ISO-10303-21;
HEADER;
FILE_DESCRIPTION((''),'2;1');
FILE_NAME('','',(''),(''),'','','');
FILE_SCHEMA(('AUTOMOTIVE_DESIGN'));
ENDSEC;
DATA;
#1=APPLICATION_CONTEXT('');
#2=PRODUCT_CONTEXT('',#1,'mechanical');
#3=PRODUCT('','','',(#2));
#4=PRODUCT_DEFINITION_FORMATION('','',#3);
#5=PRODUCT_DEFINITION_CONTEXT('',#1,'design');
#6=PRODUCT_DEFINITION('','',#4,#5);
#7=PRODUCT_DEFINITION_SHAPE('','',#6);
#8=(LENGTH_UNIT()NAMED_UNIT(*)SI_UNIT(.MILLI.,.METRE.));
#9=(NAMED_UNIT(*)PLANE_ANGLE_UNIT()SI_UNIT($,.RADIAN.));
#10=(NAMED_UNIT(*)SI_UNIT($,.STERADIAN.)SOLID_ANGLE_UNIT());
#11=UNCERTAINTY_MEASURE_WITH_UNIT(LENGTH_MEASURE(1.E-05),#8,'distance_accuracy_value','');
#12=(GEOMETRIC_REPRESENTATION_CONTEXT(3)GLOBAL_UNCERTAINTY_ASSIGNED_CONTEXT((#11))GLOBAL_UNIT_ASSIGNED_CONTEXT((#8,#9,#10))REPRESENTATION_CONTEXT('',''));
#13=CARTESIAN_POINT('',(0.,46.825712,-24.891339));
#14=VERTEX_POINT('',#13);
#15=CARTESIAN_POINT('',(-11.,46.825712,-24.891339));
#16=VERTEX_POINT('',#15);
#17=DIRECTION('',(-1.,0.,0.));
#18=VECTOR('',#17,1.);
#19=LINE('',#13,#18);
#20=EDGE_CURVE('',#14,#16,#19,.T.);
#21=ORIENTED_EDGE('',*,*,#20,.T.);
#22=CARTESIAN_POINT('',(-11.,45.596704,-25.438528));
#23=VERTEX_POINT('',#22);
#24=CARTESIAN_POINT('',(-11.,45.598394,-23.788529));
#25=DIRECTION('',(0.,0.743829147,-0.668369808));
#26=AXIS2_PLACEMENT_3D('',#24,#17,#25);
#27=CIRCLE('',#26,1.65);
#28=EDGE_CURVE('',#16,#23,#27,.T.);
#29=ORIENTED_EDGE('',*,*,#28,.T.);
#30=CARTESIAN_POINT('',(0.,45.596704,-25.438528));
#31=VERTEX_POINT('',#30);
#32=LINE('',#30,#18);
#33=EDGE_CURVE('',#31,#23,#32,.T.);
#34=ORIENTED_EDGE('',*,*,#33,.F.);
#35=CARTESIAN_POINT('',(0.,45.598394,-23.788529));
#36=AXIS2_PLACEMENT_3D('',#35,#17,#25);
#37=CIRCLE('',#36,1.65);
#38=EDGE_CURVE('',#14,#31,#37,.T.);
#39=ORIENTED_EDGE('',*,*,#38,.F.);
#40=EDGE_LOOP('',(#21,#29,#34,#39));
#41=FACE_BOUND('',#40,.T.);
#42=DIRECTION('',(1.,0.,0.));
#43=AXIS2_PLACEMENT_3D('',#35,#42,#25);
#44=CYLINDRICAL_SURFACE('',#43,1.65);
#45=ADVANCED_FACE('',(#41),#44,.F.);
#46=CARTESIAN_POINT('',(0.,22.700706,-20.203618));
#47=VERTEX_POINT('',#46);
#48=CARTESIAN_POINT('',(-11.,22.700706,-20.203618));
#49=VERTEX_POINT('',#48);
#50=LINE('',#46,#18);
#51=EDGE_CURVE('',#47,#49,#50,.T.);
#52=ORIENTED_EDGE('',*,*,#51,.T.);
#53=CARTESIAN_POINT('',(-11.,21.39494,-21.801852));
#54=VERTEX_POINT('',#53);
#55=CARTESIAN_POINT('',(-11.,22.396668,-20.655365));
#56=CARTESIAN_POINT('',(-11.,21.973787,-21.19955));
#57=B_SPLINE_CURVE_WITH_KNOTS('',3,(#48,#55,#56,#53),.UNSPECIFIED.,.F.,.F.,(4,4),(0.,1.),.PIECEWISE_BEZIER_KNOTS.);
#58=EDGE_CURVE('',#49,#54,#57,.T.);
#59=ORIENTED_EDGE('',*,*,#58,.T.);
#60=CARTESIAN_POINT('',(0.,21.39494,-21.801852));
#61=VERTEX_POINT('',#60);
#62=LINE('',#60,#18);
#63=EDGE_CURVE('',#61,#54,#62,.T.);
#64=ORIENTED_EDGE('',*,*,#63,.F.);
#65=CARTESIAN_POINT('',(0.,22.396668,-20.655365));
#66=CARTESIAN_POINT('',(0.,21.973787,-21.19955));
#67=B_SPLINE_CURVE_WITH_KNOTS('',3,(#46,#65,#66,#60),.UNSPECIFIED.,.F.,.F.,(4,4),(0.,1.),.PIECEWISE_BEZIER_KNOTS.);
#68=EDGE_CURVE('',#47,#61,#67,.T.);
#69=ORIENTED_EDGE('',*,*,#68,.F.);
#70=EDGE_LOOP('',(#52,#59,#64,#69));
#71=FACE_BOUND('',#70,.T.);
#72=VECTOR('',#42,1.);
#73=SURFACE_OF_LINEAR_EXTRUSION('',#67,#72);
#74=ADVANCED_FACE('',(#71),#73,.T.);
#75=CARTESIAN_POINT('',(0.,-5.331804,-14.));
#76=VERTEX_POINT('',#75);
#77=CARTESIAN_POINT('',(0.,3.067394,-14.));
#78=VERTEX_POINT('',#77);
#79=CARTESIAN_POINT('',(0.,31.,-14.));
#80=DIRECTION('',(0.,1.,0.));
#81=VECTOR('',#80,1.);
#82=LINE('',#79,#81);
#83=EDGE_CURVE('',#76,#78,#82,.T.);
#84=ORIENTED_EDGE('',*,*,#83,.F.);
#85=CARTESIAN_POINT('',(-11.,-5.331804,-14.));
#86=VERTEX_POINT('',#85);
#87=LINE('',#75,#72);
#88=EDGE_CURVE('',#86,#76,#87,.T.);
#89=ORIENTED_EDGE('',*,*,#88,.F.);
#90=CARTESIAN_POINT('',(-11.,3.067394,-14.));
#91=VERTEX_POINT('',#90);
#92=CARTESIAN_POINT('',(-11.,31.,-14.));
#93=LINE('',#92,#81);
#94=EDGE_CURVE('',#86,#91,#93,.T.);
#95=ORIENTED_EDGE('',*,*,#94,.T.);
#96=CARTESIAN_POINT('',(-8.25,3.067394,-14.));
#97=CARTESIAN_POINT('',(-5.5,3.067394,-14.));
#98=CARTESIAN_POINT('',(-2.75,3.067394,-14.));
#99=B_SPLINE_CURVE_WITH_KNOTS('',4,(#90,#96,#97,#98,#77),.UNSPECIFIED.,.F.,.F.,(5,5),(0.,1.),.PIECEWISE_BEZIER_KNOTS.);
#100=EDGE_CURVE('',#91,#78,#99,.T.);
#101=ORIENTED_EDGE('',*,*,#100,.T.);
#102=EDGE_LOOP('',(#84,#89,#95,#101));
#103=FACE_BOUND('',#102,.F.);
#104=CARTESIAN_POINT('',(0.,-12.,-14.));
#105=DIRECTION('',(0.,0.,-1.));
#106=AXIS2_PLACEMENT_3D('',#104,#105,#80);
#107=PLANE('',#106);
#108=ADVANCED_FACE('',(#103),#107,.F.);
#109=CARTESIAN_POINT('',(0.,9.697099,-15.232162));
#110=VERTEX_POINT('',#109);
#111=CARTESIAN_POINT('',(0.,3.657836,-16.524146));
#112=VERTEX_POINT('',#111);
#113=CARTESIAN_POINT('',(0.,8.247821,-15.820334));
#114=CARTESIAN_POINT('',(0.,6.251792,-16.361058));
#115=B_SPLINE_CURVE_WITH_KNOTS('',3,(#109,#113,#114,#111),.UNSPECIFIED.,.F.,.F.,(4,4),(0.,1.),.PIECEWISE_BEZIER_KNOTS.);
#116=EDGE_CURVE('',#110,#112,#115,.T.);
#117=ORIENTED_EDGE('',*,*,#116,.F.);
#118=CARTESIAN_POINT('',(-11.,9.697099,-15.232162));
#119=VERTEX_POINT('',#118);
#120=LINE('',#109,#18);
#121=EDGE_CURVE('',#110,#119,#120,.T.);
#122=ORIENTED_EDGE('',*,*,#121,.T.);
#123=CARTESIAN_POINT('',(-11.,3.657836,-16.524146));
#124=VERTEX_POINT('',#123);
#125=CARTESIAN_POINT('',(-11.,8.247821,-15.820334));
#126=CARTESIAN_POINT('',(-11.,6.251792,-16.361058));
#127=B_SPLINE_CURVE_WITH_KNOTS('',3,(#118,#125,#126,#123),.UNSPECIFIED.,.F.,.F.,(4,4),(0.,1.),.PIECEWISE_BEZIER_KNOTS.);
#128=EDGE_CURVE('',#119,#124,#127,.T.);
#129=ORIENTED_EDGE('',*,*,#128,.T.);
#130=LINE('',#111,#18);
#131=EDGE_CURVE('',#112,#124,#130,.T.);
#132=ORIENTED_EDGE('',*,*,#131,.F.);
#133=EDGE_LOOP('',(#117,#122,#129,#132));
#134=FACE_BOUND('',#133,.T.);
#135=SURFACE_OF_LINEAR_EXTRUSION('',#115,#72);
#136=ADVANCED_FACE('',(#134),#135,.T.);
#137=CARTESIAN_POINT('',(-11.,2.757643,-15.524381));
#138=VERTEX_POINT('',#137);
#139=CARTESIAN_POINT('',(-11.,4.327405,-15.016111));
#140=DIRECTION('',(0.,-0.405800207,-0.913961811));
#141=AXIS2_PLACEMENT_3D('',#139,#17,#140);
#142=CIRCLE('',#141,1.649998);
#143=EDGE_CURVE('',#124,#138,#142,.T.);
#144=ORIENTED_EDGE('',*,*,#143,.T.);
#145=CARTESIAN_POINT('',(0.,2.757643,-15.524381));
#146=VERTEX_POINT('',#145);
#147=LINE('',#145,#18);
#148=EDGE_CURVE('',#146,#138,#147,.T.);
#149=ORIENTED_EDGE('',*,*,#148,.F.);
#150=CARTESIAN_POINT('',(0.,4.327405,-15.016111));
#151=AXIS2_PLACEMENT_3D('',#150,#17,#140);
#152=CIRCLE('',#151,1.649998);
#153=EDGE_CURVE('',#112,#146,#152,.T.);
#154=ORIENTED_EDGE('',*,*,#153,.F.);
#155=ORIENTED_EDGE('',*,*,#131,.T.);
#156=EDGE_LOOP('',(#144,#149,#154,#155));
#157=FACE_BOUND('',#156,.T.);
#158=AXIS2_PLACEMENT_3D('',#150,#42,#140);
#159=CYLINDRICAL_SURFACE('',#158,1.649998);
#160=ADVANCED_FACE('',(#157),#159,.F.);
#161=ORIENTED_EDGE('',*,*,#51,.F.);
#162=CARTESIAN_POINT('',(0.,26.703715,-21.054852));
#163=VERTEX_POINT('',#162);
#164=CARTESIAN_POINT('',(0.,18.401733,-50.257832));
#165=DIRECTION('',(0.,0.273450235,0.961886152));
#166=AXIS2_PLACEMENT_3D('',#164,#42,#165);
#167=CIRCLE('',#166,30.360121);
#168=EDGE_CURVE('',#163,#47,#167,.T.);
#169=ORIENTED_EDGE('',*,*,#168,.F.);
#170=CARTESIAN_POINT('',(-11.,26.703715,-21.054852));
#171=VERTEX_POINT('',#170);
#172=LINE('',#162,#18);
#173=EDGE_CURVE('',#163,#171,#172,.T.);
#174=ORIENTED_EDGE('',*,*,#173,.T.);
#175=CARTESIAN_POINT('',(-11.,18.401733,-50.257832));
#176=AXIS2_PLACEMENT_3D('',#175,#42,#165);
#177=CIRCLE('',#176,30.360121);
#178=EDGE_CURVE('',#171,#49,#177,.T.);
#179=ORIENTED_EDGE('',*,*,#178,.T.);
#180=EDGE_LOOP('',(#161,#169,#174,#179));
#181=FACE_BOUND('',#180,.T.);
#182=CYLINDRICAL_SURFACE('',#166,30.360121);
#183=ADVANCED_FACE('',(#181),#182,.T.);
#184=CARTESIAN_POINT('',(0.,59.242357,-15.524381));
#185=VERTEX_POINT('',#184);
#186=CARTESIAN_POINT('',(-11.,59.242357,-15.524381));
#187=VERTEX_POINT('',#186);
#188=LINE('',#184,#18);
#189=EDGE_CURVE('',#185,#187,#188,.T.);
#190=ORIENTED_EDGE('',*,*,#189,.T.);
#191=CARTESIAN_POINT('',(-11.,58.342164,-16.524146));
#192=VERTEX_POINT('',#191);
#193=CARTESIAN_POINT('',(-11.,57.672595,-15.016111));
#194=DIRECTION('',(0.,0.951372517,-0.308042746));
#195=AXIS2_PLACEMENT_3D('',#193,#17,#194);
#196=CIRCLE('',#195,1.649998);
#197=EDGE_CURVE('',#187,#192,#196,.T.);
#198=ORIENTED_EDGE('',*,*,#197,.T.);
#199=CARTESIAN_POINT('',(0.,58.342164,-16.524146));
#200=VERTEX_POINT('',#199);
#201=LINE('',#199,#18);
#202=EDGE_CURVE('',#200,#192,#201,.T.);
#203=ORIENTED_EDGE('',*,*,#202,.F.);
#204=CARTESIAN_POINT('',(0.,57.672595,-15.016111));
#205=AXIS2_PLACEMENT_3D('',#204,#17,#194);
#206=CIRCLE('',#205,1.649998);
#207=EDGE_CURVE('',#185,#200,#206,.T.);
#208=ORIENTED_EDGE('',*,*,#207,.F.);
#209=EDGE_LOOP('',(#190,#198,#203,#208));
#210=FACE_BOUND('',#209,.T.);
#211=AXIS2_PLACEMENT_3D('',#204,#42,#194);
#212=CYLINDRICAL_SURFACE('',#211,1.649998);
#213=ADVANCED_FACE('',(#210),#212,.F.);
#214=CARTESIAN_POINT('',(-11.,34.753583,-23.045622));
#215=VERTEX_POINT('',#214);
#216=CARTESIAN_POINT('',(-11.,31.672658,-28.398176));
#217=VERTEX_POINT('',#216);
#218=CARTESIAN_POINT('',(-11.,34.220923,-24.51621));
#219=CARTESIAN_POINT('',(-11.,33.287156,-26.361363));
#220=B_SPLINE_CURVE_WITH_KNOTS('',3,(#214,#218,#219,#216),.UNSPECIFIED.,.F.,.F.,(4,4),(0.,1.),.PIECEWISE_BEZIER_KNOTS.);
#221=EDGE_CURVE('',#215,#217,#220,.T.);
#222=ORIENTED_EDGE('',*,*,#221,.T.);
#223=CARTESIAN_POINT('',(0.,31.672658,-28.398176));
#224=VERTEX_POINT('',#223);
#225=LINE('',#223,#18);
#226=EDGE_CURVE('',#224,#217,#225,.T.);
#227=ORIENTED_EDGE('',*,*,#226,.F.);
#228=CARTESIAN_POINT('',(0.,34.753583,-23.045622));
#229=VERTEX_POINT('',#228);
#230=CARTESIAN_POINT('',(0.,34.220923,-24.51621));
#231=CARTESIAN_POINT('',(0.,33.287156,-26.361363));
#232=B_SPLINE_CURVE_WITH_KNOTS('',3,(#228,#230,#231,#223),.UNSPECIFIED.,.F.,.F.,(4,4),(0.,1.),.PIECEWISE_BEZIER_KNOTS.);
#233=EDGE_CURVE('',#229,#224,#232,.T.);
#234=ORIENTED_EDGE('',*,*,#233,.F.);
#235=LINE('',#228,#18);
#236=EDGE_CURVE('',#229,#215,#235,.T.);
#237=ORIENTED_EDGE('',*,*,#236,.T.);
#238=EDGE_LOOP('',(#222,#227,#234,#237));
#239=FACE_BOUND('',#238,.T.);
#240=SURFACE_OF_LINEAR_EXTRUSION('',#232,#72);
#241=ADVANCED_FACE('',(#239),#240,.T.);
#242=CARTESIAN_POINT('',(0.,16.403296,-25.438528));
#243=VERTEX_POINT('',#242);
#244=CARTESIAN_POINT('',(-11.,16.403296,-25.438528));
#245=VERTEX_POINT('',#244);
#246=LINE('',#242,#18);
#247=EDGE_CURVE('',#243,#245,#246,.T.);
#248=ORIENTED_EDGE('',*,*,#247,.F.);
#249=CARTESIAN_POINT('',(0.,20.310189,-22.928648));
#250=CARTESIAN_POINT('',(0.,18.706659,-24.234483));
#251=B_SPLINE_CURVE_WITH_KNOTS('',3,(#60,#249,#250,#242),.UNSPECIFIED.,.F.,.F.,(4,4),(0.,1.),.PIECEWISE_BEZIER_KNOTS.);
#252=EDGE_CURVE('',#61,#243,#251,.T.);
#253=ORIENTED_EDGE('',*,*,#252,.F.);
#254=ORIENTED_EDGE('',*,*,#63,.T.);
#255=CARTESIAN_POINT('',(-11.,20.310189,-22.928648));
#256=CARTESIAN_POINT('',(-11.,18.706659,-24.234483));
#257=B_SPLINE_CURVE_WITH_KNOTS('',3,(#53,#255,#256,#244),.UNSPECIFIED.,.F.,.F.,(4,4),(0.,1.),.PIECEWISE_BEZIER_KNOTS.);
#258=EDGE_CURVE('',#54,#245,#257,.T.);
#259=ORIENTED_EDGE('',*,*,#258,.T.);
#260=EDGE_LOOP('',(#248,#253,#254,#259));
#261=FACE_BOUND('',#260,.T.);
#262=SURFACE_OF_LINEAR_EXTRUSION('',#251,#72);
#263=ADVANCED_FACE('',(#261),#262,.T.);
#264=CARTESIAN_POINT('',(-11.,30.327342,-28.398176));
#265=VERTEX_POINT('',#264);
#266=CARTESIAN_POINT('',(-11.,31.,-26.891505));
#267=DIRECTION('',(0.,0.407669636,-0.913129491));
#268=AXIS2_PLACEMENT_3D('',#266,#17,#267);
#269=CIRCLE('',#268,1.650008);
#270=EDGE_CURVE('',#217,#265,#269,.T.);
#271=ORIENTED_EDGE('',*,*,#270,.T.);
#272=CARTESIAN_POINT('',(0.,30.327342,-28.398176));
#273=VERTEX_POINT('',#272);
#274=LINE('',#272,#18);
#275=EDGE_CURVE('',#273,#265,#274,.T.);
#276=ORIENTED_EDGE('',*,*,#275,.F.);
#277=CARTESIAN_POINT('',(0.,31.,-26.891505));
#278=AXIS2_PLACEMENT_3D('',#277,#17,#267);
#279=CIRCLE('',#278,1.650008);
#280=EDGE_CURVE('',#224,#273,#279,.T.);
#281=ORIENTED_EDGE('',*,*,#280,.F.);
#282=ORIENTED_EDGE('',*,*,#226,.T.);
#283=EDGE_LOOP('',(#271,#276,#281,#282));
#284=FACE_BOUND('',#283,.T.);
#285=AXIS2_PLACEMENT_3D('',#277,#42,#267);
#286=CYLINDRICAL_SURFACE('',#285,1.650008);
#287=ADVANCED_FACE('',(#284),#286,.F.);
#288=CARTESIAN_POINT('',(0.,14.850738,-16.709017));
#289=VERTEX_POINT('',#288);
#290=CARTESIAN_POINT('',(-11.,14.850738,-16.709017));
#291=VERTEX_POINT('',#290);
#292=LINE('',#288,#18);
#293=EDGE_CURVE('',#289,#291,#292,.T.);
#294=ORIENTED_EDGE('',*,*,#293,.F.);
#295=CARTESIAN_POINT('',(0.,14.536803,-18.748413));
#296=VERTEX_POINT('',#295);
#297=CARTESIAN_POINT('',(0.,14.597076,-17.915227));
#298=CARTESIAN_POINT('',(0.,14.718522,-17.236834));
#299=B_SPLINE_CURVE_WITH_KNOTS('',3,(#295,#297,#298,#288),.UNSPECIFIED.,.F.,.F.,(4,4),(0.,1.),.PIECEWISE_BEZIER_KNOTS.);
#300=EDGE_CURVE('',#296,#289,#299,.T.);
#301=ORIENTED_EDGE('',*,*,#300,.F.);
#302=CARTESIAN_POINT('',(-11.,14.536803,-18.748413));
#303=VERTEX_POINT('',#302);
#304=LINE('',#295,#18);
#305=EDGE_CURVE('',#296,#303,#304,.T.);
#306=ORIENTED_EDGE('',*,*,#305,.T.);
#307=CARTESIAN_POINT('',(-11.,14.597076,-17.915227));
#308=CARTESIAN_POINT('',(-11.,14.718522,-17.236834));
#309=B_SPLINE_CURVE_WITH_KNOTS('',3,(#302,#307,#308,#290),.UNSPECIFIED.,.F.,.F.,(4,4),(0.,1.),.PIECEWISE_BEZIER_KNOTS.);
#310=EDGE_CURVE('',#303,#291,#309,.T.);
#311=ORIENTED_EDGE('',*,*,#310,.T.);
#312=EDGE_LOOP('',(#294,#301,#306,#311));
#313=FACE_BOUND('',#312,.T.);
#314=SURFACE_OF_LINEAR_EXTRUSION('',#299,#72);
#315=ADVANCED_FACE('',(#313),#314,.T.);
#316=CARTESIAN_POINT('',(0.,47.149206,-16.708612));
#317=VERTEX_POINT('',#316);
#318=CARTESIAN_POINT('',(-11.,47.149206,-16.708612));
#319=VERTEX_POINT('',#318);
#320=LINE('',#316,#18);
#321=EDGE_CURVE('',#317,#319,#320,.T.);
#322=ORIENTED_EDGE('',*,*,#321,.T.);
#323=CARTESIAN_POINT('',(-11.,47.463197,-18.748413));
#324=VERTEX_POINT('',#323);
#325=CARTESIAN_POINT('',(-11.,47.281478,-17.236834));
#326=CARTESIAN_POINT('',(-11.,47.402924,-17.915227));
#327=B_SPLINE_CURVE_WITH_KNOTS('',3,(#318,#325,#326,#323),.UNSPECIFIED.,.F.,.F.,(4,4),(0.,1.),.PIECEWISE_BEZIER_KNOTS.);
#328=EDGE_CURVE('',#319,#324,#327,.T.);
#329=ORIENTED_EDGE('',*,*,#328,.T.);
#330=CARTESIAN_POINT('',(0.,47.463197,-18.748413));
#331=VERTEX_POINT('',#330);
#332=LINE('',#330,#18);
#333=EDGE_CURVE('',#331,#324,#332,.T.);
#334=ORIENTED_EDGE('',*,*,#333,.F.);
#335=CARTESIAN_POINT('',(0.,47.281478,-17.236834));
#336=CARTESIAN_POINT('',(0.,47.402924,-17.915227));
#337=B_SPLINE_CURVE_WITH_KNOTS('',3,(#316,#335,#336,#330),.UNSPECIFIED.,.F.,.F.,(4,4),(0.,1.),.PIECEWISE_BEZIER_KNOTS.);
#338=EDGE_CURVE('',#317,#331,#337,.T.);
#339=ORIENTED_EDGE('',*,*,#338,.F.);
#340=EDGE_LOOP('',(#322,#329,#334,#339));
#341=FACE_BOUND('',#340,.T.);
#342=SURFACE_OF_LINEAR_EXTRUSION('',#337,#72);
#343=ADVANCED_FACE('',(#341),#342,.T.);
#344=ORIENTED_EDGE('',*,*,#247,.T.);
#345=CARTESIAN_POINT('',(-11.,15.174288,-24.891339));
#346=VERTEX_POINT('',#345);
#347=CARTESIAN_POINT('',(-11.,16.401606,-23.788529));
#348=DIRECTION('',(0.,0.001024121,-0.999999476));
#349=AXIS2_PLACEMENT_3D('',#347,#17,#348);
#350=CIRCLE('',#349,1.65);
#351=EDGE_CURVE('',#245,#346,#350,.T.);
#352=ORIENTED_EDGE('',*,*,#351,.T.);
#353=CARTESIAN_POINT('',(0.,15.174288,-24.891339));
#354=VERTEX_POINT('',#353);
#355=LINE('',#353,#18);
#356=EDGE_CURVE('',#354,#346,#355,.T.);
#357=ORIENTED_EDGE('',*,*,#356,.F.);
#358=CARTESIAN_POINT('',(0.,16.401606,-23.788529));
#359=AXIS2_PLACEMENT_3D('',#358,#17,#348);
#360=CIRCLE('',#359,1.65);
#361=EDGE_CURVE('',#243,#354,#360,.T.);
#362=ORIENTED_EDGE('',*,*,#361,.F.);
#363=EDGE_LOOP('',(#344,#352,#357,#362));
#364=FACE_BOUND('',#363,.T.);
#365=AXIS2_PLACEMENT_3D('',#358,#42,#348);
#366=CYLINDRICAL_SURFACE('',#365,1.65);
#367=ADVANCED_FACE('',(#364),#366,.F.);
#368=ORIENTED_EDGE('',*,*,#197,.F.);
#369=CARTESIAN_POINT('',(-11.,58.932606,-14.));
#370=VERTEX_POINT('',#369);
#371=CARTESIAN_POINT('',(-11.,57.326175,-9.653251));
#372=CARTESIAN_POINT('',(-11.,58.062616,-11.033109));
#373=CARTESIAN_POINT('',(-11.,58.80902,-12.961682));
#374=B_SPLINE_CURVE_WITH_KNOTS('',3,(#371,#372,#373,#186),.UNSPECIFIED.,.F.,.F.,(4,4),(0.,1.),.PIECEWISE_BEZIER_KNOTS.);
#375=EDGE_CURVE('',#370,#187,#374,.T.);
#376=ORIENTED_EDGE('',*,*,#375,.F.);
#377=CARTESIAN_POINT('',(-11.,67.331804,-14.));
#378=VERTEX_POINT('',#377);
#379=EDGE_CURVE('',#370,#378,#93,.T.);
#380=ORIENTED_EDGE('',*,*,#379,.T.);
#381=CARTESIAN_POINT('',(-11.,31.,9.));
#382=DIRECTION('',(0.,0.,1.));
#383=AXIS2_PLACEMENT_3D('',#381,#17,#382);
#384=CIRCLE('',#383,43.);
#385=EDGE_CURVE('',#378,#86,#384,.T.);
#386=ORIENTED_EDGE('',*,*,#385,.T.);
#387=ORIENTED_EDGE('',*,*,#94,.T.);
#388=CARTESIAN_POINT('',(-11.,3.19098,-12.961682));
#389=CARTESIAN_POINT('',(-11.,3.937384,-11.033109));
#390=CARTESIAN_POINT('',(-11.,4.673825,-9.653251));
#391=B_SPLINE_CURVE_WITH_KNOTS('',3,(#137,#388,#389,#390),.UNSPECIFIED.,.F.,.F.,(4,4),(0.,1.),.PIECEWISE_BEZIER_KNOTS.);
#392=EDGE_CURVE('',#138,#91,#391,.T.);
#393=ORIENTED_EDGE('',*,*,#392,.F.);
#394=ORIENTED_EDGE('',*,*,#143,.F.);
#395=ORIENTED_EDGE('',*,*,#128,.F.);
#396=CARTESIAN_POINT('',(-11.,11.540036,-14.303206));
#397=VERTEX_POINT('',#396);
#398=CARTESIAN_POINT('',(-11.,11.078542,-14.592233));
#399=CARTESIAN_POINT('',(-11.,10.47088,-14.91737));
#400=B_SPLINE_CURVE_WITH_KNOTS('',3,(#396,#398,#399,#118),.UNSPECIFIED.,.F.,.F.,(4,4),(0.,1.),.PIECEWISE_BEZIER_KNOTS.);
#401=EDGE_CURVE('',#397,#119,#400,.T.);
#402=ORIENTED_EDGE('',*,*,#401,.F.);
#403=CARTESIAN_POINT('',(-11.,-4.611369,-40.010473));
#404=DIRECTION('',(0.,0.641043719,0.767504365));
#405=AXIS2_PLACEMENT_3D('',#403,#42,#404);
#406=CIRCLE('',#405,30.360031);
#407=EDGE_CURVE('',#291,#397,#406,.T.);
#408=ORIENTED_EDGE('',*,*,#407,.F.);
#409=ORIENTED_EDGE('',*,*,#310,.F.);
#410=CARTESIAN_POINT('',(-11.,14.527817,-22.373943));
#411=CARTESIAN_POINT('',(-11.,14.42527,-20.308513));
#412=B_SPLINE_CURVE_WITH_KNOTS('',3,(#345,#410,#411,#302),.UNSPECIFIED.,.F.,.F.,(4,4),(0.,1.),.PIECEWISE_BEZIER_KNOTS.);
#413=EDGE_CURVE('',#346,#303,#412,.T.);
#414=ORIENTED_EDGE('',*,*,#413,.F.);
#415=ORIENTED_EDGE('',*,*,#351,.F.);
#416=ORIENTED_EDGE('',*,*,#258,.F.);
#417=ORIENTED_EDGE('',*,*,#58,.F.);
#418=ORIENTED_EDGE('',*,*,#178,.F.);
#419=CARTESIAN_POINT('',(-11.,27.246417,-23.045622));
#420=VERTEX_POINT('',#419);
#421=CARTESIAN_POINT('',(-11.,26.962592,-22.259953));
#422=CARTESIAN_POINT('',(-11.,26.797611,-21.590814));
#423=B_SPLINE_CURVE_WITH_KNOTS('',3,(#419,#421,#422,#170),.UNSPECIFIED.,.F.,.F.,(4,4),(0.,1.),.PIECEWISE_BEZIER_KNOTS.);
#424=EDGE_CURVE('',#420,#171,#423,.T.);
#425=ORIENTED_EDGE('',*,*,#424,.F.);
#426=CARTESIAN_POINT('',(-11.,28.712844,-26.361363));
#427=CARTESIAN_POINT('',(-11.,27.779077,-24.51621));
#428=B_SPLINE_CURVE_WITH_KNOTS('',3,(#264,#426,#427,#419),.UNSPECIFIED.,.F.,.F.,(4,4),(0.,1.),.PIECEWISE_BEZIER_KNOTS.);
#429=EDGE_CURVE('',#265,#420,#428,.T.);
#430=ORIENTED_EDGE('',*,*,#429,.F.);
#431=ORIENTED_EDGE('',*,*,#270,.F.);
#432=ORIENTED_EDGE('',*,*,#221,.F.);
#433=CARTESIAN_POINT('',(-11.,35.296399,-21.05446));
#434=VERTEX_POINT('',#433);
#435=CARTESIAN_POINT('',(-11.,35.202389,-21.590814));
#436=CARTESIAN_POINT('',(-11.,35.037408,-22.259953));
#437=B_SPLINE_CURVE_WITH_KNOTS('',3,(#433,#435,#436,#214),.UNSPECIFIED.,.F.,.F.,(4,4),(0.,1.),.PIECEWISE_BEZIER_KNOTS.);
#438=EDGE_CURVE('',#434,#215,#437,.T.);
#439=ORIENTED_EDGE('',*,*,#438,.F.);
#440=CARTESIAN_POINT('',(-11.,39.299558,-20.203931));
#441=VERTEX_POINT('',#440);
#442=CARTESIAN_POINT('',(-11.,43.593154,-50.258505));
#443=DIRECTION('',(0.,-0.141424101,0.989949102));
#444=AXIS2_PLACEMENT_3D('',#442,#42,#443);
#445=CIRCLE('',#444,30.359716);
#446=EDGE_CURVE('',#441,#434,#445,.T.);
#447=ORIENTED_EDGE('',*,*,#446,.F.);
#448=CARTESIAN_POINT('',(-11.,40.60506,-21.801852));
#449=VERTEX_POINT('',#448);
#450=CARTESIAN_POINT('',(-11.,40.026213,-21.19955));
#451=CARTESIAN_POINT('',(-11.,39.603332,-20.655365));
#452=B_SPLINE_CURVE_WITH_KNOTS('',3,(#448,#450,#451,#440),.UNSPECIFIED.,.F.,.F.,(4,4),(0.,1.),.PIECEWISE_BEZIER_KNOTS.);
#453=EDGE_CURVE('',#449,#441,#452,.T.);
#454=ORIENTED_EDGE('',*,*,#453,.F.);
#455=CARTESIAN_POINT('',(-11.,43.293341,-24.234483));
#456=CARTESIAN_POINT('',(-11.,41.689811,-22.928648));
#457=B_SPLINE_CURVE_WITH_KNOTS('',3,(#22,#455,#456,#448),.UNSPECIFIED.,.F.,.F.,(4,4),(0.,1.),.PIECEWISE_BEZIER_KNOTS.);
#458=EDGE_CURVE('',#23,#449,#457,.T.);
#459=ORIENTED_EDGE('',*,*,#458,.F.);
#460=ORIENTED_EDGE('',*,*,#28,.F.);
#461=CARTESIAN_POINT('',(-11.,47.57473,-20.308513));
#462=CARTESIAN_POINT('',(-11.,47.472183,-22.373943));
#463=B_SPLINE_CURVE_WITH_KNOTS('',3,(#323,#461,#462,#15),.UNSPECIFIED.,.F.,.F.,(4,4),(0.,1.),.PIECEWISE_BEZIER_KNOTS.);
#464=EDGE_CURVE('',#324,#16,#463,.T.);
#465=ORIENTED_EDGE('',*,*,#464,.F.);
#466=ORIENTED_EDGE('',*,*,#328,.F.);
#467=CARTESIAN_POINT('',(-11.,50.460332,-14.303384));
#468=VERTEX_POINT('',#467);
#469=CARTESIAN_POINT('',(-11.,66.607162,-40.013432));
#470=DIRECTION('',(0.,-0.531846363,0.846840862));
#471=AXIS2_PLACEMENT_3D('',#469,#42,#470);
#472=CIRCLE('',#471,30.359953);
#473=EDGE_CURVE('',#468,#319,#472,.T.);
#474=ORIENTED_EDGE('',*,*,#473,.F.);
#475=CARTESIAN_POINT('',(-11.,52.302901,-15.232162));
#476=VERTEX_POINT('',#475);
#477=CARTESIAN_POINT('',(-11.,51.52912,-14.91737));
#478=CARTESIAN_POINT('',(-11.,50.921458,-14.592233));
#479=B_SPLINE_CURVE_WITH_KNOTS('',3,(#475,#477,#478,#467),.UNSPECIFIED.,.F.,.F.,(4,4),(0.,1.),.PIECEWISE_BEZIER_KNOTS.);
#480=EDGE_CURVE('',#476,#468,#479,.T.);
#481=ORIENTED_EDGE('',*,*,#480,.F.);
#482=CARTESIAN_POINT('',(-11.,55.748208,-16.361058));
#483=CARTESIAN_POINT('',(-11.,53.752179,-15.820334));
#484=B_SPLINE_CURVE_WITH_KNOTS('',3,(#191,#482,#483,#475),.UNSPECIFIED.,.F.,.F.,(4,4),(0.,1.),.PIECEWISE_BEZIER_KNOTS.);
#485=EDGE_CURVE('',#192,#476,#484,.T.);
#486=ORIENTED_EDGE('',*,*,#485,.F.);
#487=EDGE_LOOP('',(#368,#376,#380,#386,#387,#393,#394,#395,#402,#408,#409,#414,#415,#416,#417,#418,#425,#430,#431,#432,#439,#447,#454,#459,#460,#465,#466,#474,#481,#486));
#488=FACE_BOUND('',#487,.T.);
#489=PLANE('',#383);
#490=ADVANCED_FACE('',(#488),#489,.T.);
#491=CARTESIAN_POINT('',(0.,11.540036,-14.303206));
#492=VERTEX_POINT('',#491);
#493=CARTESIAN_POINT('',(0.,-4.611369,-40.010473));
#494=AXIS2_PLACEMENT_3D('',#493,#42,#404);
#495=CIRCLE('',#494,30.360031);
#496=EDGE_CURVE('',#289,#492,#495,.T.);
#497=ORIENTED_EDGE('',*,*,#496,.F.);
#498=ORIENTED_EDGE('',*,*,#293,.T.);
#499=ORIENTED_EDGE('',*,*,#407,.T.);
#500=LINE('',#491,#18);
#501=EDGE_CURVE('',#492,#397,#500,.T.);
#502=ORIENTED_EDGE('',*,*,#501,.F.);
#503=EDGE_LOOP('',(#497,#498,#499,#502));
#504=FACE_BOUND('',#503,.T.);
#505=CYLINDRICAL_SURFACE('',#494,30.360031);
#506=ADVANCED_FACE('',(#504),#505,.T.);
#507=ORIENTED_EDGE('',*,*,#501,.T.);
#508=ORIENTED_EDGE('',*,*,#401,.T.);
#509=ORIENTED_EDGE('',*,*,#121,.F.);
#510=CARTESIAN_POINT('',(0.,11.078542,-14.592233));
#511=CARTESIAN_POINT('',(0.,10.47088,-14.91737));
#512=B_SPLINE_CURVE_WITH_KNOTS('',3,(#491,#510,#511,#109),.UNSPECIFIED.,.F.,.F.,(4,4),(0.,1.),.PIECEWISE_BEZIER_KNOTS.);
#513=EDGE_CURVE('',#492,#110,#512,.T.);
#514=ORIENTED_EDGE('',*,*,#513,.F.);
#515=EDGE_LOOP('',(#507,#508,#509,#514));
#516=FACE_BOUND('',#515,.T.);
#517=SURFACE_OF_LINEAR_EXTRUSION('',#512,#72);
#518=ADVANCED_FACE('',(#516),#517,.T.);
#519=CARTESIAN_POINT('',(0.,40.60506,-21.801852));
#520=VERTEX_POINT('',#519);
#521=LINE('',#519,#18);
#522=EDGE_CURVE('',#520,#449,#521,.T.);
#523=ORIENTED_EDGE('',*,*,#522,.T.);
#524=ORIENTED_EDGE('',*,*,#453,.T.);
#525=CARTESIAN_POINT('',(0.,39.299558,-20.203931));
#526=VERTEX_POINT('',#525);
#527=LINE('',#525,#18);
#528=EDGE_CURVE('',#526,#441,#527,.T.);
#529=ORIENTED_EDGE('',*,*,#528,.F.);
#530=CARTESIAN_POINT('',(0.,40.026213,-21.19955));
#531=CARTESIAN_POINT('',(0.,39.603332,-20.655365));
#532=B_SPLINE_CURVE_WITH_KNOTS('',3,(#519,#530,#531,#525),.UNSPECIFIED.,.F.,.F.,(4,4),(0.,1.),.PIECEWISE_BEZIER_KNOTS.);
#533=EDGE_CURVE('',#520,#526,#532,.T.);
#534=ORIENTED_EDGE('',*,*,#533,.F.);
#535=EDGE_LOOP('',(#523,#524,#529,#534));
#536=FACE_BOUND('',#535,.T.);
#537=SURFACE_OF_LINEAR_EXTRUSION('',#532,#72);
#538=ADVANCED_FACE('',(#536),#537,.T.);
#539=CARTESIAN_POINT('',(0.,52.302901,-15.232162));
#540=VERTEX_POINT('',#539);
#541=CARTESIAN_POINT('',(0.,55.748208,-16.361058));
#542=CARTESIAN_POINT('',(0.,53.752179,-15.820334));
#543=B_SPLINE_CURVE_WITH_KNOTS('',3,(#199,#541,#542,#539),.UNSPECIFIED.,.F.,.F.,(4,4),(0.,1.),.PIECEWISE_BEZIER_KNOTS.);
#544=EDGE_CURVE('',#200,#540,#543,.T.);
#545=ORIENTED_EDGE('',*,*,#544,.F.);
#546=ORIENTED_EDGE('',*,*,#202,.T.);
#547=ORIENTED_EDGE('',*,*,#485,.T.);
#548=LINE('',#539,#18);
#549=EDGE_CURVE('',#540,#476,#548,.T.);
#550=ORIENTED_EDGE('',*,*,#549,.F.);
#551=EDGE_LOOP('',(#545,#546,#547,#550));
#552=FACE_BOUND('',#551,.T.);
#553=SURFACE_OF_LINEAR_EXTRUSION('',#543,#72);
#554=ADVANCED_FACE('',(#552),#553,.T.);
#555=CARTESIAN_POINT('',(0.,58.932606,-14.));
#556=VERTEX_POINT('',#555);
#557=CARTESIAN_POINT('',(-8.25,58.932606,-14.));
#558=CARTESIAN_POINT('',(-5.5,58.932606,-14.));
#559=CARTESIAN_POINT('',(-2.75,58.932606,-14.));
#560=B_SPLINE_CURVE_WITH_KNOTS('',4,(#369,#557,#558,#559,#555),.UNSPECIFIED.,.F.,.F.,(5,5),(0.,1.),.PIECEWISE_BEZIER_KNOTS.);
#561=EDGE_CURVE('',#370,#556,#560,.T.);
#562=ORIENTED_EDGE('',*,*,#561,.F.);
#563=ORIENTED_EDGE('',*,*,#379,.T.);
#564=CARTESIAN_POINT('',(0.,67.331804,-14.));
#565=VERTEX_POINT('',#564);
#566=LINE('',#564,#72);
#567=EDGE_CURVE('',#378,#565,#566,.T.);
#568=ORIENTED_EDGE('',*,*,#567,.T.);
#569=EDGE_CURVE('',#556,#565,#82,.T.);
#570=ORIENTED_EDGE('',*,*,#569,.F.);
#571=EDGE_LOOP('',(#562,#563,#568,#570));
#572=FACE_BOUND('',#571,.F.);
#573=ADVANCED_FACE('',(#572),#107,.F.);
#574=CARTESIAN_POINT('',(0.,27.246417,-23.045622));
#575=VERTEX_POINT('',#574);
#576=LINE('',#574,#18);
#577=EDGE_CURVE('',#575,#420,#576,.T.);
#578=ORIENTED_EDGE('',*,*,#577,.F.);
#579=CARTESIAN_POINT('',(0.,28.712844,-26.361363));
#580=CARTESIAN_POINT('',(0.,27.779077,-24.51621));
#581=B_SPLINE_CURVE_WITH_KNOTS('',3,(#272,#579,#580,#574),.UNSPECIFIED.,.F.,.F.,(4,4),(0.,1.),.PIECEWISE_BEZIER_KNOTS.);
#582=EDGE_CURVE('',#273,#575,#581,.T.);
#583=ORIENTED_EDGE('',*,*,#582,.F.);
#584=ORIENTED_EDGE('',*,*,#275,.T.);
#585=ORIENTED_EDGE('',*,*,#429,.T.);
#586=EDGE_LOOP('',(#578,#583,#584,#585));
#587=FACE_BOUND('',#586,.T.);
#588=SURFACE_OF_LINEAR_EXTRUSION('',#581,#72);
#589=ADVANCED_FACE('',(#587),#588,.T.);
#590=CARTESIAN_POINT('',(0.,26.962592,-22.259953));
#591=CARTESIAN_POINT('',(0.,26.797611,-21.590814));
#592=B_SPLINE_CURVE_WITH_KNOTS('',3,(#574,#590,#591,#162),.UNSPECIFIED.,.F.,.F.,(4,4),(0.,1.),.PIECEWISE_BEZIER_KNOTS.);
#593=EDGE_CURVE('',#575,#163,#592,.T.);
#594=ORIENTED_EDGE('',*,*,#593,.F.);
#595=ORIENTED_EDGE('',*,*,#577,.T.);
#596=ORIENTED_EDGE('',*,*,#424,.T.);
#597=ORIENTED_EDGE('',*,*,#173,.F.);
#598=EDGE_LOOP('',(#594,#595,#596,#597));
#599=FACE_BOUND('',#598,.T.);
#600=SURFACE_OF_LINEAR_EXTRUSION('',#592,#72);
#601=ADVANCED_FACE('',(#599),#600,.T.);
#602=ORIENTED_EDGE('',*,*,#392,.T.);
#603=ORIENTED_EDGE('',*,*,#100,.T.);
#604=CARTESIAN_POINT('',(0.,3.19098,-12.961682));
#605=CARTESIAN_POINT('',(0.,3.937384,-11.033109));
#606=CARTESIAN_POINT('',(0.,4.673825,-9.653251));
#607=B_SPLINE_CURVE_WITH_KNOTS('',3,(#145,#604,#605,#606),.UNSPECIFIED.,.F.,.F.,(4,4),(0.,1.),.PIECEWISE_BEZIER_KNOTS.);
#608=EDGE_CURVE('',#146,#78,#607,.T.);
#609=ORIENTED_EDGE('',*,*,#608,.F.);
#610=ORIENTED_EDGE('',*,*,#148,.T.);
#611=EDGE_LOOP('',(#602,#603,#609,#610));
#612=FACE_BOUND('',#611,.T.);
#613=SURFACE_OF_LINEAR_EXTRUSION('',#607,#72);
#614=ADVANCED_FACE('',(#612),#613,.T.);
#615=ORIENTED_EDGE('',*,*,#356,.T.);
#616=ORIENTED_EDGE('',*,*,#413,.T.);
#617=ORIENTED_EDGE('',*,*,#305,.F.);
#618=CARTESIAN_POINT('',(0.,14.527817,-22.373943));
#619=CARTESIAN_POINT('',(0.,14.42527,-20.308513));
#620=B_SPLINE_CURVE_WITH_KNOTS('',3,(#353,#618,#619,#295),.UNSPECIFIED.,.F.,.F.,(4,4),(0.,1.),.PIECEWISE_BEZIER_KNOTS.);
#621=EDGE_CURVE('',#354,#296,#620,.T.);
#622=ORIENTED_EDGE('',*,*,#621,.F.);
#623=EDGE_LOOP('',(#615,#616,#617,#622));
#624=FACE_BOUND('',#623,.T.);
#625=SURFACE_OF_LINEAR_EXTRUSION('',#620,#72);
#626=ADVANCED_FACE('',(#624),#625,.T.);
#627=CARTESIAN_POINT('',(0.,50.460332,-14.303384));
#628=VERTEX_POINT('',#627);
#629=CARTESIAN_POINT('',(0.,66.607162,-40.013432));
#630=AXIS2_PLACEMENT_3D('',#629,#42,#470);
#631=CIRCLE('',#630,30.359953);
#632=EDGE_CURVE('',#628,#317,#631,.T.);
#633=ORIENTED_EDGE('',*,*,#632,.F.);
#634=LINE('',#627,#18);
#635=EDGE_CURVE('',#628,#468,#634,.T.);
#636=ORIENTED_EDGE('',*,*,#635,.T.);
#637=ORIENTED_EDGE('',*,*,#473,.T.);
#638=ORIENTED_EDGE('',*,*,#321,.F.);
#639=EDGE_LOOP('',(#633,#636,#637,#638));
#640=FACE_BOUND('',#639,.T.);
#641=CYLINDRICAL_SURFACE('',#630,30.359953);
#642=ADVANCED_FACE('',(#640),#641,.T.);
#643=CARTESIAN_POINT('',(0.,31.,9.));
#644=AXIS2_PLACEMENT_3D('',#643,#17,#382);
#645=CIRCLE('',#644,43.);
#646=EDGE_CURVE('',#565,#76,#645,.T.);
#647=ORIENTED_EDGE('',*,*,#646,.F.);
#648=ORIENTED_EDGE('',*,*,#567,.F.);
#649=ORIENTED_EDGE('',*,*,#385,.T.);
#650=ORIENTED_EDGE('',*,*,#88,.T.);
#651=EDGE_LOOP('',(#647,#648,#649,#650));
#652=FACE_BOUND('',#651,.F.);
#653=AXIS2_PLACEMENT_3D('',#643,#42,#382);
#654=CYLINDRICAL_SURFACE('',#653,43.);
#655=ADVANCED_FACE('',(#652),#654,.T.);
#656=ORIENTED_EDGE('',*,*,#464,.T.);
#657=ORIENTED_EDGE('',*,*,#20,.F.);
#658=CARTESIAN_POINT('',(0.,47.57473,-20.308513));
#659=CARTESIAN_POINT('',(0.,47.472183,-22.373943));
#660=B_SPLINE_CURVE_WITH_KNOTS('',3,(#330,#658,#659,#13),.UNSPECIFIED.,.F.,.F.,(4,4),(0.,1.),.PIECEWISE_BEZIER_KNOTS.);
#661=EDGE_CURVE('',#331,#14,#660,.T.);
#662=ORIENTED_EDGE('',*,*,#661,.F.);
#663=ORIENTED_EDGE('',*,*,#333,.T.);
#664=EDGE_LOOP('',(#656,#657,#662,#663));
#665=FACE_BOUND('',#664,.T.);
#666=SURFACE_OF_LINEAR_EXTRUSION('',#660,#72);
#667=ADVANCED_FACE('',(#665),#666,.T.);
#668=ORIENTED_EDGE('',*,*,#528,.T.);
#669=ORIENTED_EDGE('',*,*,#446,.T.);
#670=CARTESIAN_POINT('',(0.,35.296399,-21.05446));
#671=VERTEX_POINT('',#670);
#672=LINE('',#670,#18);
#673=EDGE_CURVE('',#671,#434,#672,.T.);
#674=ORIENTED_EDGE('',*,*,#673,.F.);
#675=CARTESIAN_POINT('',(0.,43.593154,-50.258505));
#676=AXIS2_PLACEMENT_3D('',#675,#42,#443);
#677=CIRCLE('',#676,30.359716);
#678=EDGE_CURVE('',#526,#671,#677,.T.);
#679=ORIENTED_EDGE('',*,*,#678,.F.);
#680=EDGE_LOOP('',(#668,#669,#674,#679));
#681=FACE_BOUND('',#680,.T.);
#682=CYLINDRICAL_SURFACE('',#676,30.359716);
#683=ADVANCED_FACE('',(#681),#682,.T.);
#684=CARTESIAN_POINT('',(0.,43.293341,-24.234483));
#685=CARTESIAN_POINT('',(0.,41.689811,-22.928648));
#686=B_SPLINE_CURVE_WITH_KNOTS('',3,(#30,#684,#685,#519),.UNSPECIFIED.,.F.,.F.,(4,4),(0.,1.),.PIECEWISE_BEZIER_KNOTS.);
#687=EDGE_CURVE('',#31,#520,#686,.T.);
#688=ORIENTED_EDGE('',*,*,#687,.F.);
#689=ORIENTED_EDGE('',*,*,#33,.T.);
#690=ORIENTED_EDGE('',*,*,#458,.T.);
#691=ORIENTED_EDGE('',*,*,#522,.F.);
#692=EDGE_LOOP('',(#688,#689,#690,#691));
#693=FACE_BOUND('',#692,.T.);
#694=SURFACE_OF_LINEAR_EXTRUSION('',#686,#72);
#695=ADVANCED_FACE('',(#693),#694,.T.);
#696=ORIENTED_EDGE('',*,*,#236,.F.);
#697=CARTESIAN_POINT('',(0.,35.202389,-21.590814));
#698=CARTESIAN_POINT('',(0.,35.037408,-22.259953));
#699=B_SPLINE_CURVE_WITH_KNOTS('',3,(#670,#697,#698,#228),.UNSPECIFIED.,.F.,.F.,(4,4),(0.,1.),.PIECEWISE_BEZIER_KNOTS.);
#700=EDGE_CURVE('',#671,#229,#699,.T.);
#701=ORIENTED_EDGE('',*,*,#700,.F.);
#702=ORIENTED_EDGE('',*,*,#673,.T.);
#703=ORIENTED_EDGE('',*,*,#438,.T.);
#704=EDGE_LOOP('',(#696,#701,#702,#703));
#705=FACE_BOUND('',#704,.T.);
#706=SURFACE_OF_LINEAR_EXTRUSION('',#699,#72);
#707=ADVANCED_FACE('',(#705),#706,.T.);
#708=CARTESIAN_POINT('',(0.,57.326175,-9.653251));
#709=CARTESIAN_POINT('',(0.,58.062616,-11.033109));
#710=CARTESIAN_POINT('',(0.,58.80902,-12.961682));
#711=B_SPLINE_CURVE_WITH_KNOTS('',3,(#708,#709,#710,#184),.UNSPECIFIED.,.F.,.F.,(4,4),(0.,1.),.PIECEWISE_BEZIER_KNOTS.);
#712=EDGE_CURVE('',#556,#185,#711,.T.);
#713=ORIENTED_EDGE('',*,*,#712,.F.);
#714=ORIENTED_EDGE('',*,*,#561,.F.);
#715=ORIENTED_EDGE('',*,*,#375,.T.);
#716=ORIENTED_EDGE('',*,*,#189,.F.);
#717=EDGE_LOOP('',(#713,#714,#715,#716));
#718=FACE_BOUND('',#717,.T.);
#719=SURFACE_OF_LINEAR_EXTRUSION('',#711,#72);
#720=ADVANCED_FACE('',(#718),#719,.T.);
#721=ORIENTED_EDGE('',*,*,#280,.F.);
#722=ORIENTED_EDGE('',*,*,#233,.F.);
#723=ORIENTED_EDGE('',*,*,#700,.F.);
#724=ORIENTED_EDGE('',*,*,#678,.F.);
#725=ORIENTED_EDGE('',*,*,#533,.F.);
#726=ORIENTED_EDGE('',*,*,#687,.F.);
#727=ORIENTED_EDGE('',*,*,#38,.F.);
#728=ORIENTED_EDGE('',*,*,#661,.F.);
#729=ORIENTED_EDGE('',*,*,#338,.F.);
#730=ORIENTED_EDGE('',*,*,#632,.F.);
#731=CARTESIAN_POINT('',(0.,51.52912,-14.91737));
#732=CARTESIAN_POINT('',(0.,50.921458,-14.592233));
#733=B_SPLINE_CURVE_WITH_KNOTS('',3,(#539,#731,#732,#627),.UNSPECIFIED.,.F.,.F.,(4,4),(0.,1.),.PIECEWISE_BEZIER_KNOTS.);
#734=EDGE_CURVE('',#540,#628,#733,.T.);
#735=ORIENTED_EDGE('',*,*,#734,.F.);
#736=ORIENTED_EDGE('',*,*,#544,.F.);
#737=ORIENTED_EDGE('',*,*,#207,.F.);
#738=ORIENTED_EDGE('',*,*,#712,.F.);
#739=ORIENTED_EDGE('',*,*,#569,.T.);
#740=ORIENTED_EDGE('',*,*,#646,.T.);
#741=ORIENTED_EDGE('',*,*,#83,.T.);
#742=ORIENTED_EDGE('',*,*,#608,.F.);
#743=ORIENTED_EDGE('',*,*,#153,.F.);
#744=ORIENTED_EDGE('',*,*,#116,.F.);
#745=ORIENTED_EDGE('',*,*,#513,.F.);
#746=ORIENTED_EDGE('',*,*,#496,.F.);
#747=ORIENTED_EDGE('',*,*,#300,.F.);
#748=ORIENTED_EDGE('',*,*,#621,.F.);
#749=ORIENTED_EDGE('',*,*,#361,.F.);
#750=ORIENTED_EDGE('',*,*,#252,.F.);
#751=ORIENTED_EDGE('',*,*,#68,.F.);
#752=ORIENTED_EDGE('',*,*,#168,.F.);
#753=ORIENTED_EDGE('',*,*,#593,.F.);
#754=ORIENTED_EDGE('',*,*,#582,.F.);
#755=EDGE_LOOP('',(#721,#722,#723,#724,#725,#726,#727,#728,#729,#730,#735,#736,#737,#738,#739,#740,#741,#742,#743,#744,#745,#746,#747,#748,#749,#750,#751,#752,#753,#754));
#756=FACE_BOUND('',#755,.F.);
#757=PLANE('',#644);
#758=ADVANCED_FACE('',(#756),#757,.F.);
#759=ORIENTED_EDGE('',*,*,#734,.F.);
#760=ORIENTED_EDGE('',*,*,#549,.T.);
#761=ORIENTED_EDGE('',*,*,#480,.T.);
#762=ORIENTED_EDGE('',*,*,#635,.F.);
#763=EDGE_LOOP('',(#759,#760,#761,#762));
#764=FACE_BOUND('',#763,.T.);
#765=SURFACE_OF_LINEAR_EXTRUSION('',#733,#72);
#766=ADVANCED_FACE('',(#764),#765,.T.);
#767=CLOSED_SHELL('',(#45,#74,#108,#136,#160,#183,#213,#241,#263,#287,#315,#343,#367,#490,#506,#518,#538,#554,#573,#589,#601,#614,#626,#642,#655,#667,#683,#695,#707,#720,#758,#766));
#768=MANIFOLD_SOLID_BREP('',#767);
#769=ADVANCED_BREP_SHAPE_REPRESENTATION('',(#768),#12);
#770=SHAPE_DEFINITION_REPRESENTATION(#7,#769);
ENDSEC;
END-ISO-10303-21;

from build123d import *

# Parameters (mm, degrees)
CYLINDER002_R           = 43
CYLINDER002_DEPTH       = 11
BOX003_W                = 66
BOX003_H                = 86
BOX003_DEPTH            = 11
POCKET_DEPTH            = 11
BODY002_PLACEMENT_ANGLE = 90


with BuildPart() as part:
    # Cylinder002 → Cylinder002 (join)
    with BuildSketch(Plane.XY):
        Circle(CYLINDER002_R)
    extrude(amount=CYLINDER002_DEPTH)

    # Box003 → Box003 (cut)
    with BuildSketch(Plane(origin=(-23, -43, 0), x_dir=(1, 0, 0), z_dir=(0, 0, 1))):
        with Locations((33, 43)):
            Rectangle(BOX003_W, BOX003_H)
    extrude(amount=BOX003_DEPTH, mode=Mode.SUBTRACT)

    # InvoluteGear001 → Pocket (cut)
    with BuildSketch(Plane.XY):
        with BuildLine():
            add(Edge.make_bspline(
                [(36.720789, -7.117559), (35.064159, -5.114865), (33.453467, -3.817874), (32.125762, -2.991102)],
                knots=[0, 0, 0, 0, 1, 1, 1, 1], degree=3))
            add(Edge.make_bspline(
                [(32.125762, -2.991102), (31.416273, -2.550129), (30.796057, -2.249632), (30.29133, -2.046354)],
                knots=[0, 0, 0, 0, 1, 1, 1, 1], degree=3))
            ThreePointArc((30.29133, -2.046354), (30.222112, -0.000102), (30.290969, 2.046161))
            add(Edge.make_bspline(
                [(30.290969, 2.046161), (30.796057, 2.249632), (31.416273, 2.550129), (32.125762, 2.991102)],
                knots=[0, 0, 0, 0, 1, 1, 1, 1], degree=3))
            add(Edge.make_bspline(
                [(32.125762, 2.991102), (33.453467, 3.817874), (35.064159, 5.114865), (36.720789, 7.117559)],
                knots=[0, 0, 0, 0, 1, 1, 1, 1], degree=3))
            ThreePointArc((36.720789, 7.117559), (36.721141, 7.80532), (36.441082, 8.433477))
            add(Edge.make_bspline(
                [(36.441082, 8.433477), (34.113106, 9.589217), (32.114132, 10.11895), (30.564934, 10.334217)],
                knots=[0, 0, 0, 0, 1, 1, 1, 1], degree=3))
            add(Edge.make_bspline(
                [(30.564934, 10.334217), (29.737424, 10.44849), (29.048606, 10.470744), (28.504834, 10.451156)],
                knots=[0, 0, 0, 0, 1, 1, 1, 1], degree=3))
            ThreePointArc((28.504834, 10.451156), (27.609315, 12.292347), (26.839929, 14.189708))
            add(Edge.make_bspline(
                [(26.839929, 14.189708), (27.21859, 14.581026), (27.662962, 15.107808), (28.131753, 15.799232)],
                knots=[0, 0, 0, 0, 1, 1, 1, 1], degree=3))
            add(Edge.make_bspline(
                [(28.131753, 15.799232), (29.008394, 17.094552), (29.9523, 18.93454), (30.651138, 21.437904)],
                knots=[0, 0, 0, 0, 1, 1, 1, 1], degree=3))
            ThreePointArc((30.651138, 21.437904), (30.371722, 22.066348), (29.860381, 22.526288))
            add(Edge.make_bspline(
                [(29.860381, 22.526288), (27.263587, 22.635236), (25.221972, 22.306115), (23.719152, 21.872656)],
                knots=[0, 0, 0, 0, 1, 1, 1, 1], degree=3))
            add(Edge.make_bspline(
                [(23.719152, 21.872656), (22.916705, 21.640471), (22.278386, 21.380633), (21.789593, 21.141567)],
                knots=[0, 0, 0, 0, 1, 1, 1, 1], degree=3))
            ThreePointArc((21.789593, 21.141567), (20.222617, 22.459338), (18.748021, 23.879726))
            add(Edge.make_bspline(
                [(18.748021, 23.879726), (18.934782, 24.391228), (19.126474, 25.05321), (19.273509, 25.875531)],
                knots=[0, 0, 0, 0, 1, 1, 1, 1], degree=3))
            add(Edge.make_bspline(
                [(19.273509, 25.875531), (19.547506, 27.415427), (19.661417, 29.480261), (19.281627, 32.051441)],
                knots=[0, 0, 0, 0, 1, 1, 1, 1], degree=3))
            ThreePointArc((19.281627, 32.051441), (18.770757, 32.511904), (18.116549, 32.724099))
            add(Edge.make_bspline(
                [(18.116549, 32.724099), (15.699946, 31.767417), (13.968703, 30.63635), (12.772113, 29.629114)],
                knots=[0, 0, 0, 0, 1, 1, 1, 1], degree=3))
            add(Edge.make_bspline(
                [(12.772113, 29.629114), (12.133479, 29.090618), (11.656032, 28.593616), (11.306734, 28.176408)],
                knots=[0, 0, 0, 0, 1, 1, 1, 1], degree=3))
            ThreePointArc((11.306734, 28.176408), (9.339244, 28.742905), (7.414409, 29.440722))
            add(Edge.make_bspline(
                [(7.414409, 29.440722), (7.376978, 29.983965), (7.282845, 30.666684), (7.0827, 31.477716)],
                knots=[0, 0, 0, 0, 1, 1, 1, 1], degree=3))
            add(Edge.make_bspline(
                [(7.0827, 31.477716), (6.706676, 32.995926), (5.970896, 34.928577), (4.578147, 37.122993)],
                knots=[0, 0, 0, 0, 1, 1, 1, 1], degree=3))
            ThreePointArc((4.578147, 37.122993), (3.924157, 37.335857), (3.2402, 37.263616))
            add(Edge.make_bspline(
                [(3.2402, 37.263616), (1.421642, 35.406723), (0.300119, 33.669282), (-0.38334, 32.262429)],
                knots=[0, 0, 0, 0, 1, 1, 1, 1], degree=3))
            add(Edge.make_bspline(
                [(-0.38334, 32.262429), (-0.747735, 31.510732), (-0.981757, 30.862503), (-1.131162, 30.339293)],
                knots=[0, 0, 0, 0, 1, 1, 1, 1], degree=3))
            ThreePointArc((-1.131162, 30.339293), (-3.158969, 30.056563), (-5.201221, 29.91115))
            add(Edge.make_bspline(
                [(-5.201221, 29.91115), (-5.456372, 30.392202), (-5.820054, 30.97761), (-6.332773, 31.637118)],
                knots=[0, 0, 0, 0, 1, 1, 1, 1], degree=3))
            add(Edge.make_bspline(
                [(-6.332773, 31.637118), (-7.293798, 32.871129), (-8.752048, 34.337425), (-10.916936, 35.775641)],
                knots=[0, 0, 0, 0, 1, 1, 1, 1], degree=3))
            ThreePointArc((-10.916936, 35.775641), (-11.600966, 35.704101), (-12.196408, 35.359916))
            add(Edge.make_bspline(
                [(-12.196408, 35.359916), (-13.102477, 32.923885), (-13.420358, 30.880489), (-13.472511, 29.317277)],
                knots=[0, 0, 0, 0, 1, 1, 1, 1], degree=3))
            add(Edge.make_bspline(
                [(-13.472511, 29.317277), (-13.49966, 28.482355), (-13.44979, 27.794983), (-13.37347, 27.256238)],
                knots=[0, 0, 0, 0, 1, 1, 1, 1], degree=3))
            ThreePointArc((-13.37347, 27.256238), (-15.110967, 26.173168), (-16.917512, 25.209668))
            add(Edge.make_bspline(
                [(-16.917512, 25.209668), (-17.346267, 25.545352), (-17.916613, 25.932226), (-18.653251, 26.326175)],
                knots=[0, 0, 0, 0, 1, 1, 1, 1], degree=3))
            add(Edge.make_bspline(
                [(-18.653251, 26.326175), (-20.033109, 27.062616), (-21.961682, 27.80902), (-24.524381, 28.242357)],
                knots=[0, 0, 0, 0, 1, 1, 1, 1], degree=3))
            ThreePointArc((-24.524381, 28.242357), (-25.120176, 27.898781), (-25.524146, 27.342164))
            add(Edge.make_bspline(
                [(-25.524146, 27.342164), (-25.361058, 24.748208), (-24.820334, 22.752179), (-24.232162, 21.302901)],
                knots=[0, 0, 0, 0, 1, 1, 1, 1], degree=3))
            add(Edge.make_bspline(
                [(-24.232162, 21.302901), (-23.91737, 20.52912), (-23.592233, 19.921458), (-23.303384, 19.460332)],
                knots=[0, 0, 0, 0, 1, 1, 1, 1], degree=3))
            ThreePointArc((-23.303384, 19.460332), (-24.450142, 17.764195), (-25.708612, 16.149206))
            add(Edge.make_bspline(
                [(-25.708612, 16.149206), (-26.236834, 16.281478), (-26.915227, 16.402924), (-27.748413, 16.463197)],
                knots=[0, 0, 0, 0, 1, 1, 1, 1], degree=3))
            add(Edge.make_bspline(
                [(-27.748413, 16.463197), (-29.308513, 16.57473), (-31.373943, 16.472183), (-33.891339, 15.825712)],
                knots=[0, 0, 0, 0, 1, 1, 1, 1], degree=3))
            ThreePointArc((-33.891339, 15.825712), (-34.295879, 15.269509), (-34.438528, 14.596704))
            add(Edge.make_bspline(
                [(-34.438528, 14.596704), (-33.234483, 12.293341), (-31.928648, 10.689811), (-30.801852, 9.60506)],
                knots=[0, 0, 0, 0, 1, 1, 1, 1], degree=3))
            add(Edge.make_bspline(
                [(-30.801852, 9.60506), (-30.19955, 9.026213), (-29.655365, 8.603332), (-29.203931, 8.299558)],
                knots=[0, 0, 0, 0, 1, 1, 1, 1], degree=3))
            ThreePointArc((-29.203931, 8.299558), (-29.561665, 6.283631), (-30.05446, 4.296399))
            add(Edge.make_bspline(
                [(-30.05446, 4.296399), (-30.590814, 4.202389), (-31.259953, 4.037408), (-32.045622, 3.753583)],
                knots=[0, 0, 0, 0, 1, 1, 1, 1], degree=3))
            add(Edge.make_bspline(
                [(-32.045622, 3.753583), (-33.51621, 3.220923), (-35.361363, 2.287156), (-37.398176, 0.672658)],
                knots=[0, 0, 0, 0, 1, 1, 1, 1], degree=3))
            ThreePointArc((-37.398176, 0.672658), (-37.541513, 0), (-37.398176, -0.672658))
            add(Edge.make_bspline(
                [(-37.398176, -0.672658), (-35.361363, -2.287156), (-33.51621, -3.220923), (-32.045622, -3.753583)],
                knots=[0, 0, 0, 0, 1, 1, 1, 1], degree=3))
            add(Edge.make_bspline(
                [(-32.045622, -3.753583), (-31.259953, -4.037408), (-30.590814, -4.202389), (-30.054852, -4.296285)],
                knots=[0, 0, 0, 0, 1, 1, 1, 1], degree=3))
            ThreePointArc((-30.054852, -4.296285), (-29.561708, -6.28343), (-29.203618, -8.299294))
            add(Edge.make_bspline(
                [(-29.203618, -8.299294), (-29.655365, -8.603332), (-30.19955, -9.026213), (-30.801852, -9.60506)],
                knots=[0, 0, 0, 0, 1, 1, 1, 1], degree=3))
            add(Edge.make_bspline(
                [(-30.801852, -9.60506), (-31.928648, -10.689811), (-33.234483, -12.293341), (-34.438528, -14.596704)],
                knots=[0, 0, 0, 0, 1, 1, 1, 1], degree=3))
            ThreePointArc((-34.438528, -14.596704), (-34.295879, -15.269509), (-33.891339, -15.825712))
            add(Edge.make_bspline(
                [(-33.891339, -15.825712), (-31.373943, -16.472183), (-29.308513, -16.57473), (-27.748413, -16.463197)],
                knots=[0, 0, 0, 0, 1, 1, 1, 1], degree=3))
            add(Edge.make_bspline(
                [(-27.748413, -16.463197), (-26.915227, -16.402924), (-26.236834, -16.281478), (-25.709017, -16.149262)],
                knots=[0, 0, 0, 0, 1, 1, 1, 1], degree=3))
            ThreePointArc((-25.709017, -16.149262), (-24.450263, -17.764029), (-23.303206, -19.459964))
            add(Edge.make_bspline(
                [(-23.303206, -19.459964), (-23.592233, -19.921458), (-23.91737, -20.52912), (-24.232162, -21.302901)],
                knots=[0, 0, 0, 0, 1, 1, 1, 1], degree=3))
            add(Edge.make_bspline(
                [(-24.232162, -21.302901), (-24.820334, -22.752179), (-25.361058, -24.748208), (-25.524146, -27.342164)],
                knots=[0, 0, 0, 0, 1, 1, 1, 1], degree=3))
            ThreePointArc((-25.524146, -27.342164), (-25.120176, -27.898781), (-24.524381, -28.242357))
            add(Edge.make_bspline(
                [(-24.524381, -28.242357), (-21.961682, -27.80902), (-20.033109, -27.062616), (-18.653251, -26.326175)],
                knots=[0, 0, 0, 0, 1, 1, 1, 1], degree=3))
            add(Edge.make_bspline(
                [(-18.653251, -26.326175), (-17.916613, -25.932226), (-17.346267, -25.545352), (-16.917859, -25.209884)],
                knots=[0, 0, 0, 0, 1, 1, 1, 1], degree=3))
            ThreePointArc((-16.917859, -25.209884), (-15.111145, -26.173066), (-13.373457, -27.25583))
            add(Edge.make_bspline(
                [(-13.373457, -27.25583), (-13.44979, -27.794983), (-13.49966, -28.482355), (-13.472511, -29.317277)],
                knots=[0, 0, 0, 0, 1, 1, 1, 1], degree=3))
            add(Edge.make_bspline(
                [(-13.472511, -29.317277), (-13.420358, -30.880489), (-13.102477, -32.923885), (-12.196408, -35.359916)],
                knots=[0, 0, 0, 0, 1, 1, 1, 1], degree=3))
            ThreePointArc((-12.196408, -35.359916), (-11.600966, -35.704101), (-10.916936, -35.775641))
            add(Edge.make_bspline(
                [(-10.916936, -35.775641), (-8.752048, -34.337425), (-7.293798, -32.871129), (-6.332773, -31.637118)],
                knots=[0, 0, 0, 0, 1, 1, 1, 1], degree=3))
            add(Edge.make_bspline(
                [(-6.332773, -31.637118), (-5.820054, -30.97761), (-5.456372, -30.392202), (-5.20145, -29.911488)],
                knots=[0, 0, 0, 0, 1, 1, 1, 1], degree=3))
            ThreePointArc((-5.20145, -29.911488), (-3.159173, -30.056542), (-1.131316, -30.338914))
            add(Edge.make_bspline(
                [(-1.131316, -30.338914), (-0.981757, -30.862503), (-0.747735, -31.510732), (-0.38334, -32.262429)],
                knots=[0, 0, 0, 0, 1, 1, 1, 1], degree=3))
            add(Edge.make_bspline(
                [(-0.38334, -32.262429), (0.300119, -33.669282), (1.421642, -35.406723), (3.2402, -37.263616)],
                knots=[0, 0, 0, 0, 1, 1, 1, 1], degree=3))
            ThreePointArc((3.2402, -37.263616), (3.924157, -37.335857), (4.578147, -37.122993))
            add(Edge.make_bspline(
                [(4.578147, -37.122993), (5.970896, -34.928577), (6.706676, -32.995926), (7.0827, -31.477716)],
                knots=[0, 0, 0, 0, 1, 1, 1, 1], degree=3))
            add(Edge.make_bspline(
                [(7.0827, -31.477716), (7.282845, -30.666684), (7.376978, -29.983965), (7.414337, -29.441125)],
                knots=[0, 0, 0, 0, 1, 1, 1, 1], degree=3))
            ThreePointArc((7.414337, -29.441125), (9.339049, -28.742969), (11.306439, -28.176125))
            add(Edge.make_bspline(
                [(11.306439, -28.176125), (11.656032, -28.593616), (12.133479, -29.090618), (12.772113, -29.629114)],
                knots=[0, 0, 0, 0, 1, 1, 1, 1], degree=3))
            add(Edge.make_bspline(
                [(12.772113, -29.629114), (13.968703, -30.63635), (15.699946, -31.767417), (18.116549, -32.724099)],
                knots=[0, 0, 0, 0, 1, 1, 1, 1], degree=3))
            ThreePointArc((18.116549, -32.724099), (18.770757, -32.511904), (19.281627, -32.051441))
            add(Edge.make_bspline(
                [(19.281627, -32.051441), (19.661417, -29.480261), (19.547506, -27.415427), (19.273509, -25.875531)],
                knots=[0, 0, 0, 0, 1, 1, 1, 1], degree=3))
            add(Edge.make_bspline(
                [(19.273509, -25.875531), (19.126474, -25.05321), (18.934782, -24.391228), (18.748118, -23.880123)],
                knots=[0, 0, 0, 0, 1, 1, 1, 1], degree=3))
            ThreePointArc((18.748118, -23.880123), (20.222464, -22.459475), (21.789209, -21.141428))
            add(Edge.make_bspline(
                [(21.789209, -21.141428), (22.278386, -21.380633), (22.916705, -21.640471), (23.719152, -21.872656)],
                knots=[0, 0, 0, 0, 1, 1, 1, 1], degree=3))
            add(Edge.make_bspline(
                [(23.719152, -21.872656), (25.221972, -22.306115), (27.263587, -22.635236), (29.860381, -22.526288)],
                knots=[0, 0, 0, 0, 1, 1, 1, 1], degree=3))
            ThreePointArc((29.860381, -22.526288), (30.371722, -22.066348), (30.651138, -21.437904))
            add(Edge.make_bspline(
                [(30.651138, -21.437904), (29.9523, -18.93454), (29.008394, -17.094552), (28.131753, -15.799232)],
                knots=[0, 0, 0, 0, 1, 1, 1, 1], degree=3))
            add(Edge.make_bspline(
                [(28.131753, -15.799232), (27.662962, -15.107808), (27.21859, -14.581026), (26.840179, -14.190031)],
                knots=[0, 0, 0, 0, 1, 1, 1, 1], degree=3))
            ThreePointArc((26.840179, -14.190031), (27.609232, -12.292534), (28.504426, -10.451186))
            add(Edge.make_bspline(
                [(28.504426, -10.451186), (29.048606, -10.470744), (29.737424, -10.44849), (30.564934, -10.334217)],
                knots=[0, 0, 0, 0, 1, 1, 1, 1], degree=3))
            add(Edge.make_bspline(
                [(30.564934, -10.334217), (32.114132, -10.11895), (34.113106, -9.589217), (36.441082, -8.433477)],
                knots=[0, 0, 0, 0, 1, 1, 1, 1], degree=3))
            ThreePointArc((36.441082, -8.433477), (36.721141, -7.80532), (36.720789, -7.117559))
        make_face()
    extrude(amount=POCKET_DEPTH, mode=Mode.SUBTRACT)


with BuildPart() as part_1:
    # Body002 placement: moved
    add(part.part.moved(Location((0, 31, 9))).rotate(Axis((0, 31, 9), (0, -1, 0)), BODY002_PLACEMENT_ANGLE))


solid = part_1.part
